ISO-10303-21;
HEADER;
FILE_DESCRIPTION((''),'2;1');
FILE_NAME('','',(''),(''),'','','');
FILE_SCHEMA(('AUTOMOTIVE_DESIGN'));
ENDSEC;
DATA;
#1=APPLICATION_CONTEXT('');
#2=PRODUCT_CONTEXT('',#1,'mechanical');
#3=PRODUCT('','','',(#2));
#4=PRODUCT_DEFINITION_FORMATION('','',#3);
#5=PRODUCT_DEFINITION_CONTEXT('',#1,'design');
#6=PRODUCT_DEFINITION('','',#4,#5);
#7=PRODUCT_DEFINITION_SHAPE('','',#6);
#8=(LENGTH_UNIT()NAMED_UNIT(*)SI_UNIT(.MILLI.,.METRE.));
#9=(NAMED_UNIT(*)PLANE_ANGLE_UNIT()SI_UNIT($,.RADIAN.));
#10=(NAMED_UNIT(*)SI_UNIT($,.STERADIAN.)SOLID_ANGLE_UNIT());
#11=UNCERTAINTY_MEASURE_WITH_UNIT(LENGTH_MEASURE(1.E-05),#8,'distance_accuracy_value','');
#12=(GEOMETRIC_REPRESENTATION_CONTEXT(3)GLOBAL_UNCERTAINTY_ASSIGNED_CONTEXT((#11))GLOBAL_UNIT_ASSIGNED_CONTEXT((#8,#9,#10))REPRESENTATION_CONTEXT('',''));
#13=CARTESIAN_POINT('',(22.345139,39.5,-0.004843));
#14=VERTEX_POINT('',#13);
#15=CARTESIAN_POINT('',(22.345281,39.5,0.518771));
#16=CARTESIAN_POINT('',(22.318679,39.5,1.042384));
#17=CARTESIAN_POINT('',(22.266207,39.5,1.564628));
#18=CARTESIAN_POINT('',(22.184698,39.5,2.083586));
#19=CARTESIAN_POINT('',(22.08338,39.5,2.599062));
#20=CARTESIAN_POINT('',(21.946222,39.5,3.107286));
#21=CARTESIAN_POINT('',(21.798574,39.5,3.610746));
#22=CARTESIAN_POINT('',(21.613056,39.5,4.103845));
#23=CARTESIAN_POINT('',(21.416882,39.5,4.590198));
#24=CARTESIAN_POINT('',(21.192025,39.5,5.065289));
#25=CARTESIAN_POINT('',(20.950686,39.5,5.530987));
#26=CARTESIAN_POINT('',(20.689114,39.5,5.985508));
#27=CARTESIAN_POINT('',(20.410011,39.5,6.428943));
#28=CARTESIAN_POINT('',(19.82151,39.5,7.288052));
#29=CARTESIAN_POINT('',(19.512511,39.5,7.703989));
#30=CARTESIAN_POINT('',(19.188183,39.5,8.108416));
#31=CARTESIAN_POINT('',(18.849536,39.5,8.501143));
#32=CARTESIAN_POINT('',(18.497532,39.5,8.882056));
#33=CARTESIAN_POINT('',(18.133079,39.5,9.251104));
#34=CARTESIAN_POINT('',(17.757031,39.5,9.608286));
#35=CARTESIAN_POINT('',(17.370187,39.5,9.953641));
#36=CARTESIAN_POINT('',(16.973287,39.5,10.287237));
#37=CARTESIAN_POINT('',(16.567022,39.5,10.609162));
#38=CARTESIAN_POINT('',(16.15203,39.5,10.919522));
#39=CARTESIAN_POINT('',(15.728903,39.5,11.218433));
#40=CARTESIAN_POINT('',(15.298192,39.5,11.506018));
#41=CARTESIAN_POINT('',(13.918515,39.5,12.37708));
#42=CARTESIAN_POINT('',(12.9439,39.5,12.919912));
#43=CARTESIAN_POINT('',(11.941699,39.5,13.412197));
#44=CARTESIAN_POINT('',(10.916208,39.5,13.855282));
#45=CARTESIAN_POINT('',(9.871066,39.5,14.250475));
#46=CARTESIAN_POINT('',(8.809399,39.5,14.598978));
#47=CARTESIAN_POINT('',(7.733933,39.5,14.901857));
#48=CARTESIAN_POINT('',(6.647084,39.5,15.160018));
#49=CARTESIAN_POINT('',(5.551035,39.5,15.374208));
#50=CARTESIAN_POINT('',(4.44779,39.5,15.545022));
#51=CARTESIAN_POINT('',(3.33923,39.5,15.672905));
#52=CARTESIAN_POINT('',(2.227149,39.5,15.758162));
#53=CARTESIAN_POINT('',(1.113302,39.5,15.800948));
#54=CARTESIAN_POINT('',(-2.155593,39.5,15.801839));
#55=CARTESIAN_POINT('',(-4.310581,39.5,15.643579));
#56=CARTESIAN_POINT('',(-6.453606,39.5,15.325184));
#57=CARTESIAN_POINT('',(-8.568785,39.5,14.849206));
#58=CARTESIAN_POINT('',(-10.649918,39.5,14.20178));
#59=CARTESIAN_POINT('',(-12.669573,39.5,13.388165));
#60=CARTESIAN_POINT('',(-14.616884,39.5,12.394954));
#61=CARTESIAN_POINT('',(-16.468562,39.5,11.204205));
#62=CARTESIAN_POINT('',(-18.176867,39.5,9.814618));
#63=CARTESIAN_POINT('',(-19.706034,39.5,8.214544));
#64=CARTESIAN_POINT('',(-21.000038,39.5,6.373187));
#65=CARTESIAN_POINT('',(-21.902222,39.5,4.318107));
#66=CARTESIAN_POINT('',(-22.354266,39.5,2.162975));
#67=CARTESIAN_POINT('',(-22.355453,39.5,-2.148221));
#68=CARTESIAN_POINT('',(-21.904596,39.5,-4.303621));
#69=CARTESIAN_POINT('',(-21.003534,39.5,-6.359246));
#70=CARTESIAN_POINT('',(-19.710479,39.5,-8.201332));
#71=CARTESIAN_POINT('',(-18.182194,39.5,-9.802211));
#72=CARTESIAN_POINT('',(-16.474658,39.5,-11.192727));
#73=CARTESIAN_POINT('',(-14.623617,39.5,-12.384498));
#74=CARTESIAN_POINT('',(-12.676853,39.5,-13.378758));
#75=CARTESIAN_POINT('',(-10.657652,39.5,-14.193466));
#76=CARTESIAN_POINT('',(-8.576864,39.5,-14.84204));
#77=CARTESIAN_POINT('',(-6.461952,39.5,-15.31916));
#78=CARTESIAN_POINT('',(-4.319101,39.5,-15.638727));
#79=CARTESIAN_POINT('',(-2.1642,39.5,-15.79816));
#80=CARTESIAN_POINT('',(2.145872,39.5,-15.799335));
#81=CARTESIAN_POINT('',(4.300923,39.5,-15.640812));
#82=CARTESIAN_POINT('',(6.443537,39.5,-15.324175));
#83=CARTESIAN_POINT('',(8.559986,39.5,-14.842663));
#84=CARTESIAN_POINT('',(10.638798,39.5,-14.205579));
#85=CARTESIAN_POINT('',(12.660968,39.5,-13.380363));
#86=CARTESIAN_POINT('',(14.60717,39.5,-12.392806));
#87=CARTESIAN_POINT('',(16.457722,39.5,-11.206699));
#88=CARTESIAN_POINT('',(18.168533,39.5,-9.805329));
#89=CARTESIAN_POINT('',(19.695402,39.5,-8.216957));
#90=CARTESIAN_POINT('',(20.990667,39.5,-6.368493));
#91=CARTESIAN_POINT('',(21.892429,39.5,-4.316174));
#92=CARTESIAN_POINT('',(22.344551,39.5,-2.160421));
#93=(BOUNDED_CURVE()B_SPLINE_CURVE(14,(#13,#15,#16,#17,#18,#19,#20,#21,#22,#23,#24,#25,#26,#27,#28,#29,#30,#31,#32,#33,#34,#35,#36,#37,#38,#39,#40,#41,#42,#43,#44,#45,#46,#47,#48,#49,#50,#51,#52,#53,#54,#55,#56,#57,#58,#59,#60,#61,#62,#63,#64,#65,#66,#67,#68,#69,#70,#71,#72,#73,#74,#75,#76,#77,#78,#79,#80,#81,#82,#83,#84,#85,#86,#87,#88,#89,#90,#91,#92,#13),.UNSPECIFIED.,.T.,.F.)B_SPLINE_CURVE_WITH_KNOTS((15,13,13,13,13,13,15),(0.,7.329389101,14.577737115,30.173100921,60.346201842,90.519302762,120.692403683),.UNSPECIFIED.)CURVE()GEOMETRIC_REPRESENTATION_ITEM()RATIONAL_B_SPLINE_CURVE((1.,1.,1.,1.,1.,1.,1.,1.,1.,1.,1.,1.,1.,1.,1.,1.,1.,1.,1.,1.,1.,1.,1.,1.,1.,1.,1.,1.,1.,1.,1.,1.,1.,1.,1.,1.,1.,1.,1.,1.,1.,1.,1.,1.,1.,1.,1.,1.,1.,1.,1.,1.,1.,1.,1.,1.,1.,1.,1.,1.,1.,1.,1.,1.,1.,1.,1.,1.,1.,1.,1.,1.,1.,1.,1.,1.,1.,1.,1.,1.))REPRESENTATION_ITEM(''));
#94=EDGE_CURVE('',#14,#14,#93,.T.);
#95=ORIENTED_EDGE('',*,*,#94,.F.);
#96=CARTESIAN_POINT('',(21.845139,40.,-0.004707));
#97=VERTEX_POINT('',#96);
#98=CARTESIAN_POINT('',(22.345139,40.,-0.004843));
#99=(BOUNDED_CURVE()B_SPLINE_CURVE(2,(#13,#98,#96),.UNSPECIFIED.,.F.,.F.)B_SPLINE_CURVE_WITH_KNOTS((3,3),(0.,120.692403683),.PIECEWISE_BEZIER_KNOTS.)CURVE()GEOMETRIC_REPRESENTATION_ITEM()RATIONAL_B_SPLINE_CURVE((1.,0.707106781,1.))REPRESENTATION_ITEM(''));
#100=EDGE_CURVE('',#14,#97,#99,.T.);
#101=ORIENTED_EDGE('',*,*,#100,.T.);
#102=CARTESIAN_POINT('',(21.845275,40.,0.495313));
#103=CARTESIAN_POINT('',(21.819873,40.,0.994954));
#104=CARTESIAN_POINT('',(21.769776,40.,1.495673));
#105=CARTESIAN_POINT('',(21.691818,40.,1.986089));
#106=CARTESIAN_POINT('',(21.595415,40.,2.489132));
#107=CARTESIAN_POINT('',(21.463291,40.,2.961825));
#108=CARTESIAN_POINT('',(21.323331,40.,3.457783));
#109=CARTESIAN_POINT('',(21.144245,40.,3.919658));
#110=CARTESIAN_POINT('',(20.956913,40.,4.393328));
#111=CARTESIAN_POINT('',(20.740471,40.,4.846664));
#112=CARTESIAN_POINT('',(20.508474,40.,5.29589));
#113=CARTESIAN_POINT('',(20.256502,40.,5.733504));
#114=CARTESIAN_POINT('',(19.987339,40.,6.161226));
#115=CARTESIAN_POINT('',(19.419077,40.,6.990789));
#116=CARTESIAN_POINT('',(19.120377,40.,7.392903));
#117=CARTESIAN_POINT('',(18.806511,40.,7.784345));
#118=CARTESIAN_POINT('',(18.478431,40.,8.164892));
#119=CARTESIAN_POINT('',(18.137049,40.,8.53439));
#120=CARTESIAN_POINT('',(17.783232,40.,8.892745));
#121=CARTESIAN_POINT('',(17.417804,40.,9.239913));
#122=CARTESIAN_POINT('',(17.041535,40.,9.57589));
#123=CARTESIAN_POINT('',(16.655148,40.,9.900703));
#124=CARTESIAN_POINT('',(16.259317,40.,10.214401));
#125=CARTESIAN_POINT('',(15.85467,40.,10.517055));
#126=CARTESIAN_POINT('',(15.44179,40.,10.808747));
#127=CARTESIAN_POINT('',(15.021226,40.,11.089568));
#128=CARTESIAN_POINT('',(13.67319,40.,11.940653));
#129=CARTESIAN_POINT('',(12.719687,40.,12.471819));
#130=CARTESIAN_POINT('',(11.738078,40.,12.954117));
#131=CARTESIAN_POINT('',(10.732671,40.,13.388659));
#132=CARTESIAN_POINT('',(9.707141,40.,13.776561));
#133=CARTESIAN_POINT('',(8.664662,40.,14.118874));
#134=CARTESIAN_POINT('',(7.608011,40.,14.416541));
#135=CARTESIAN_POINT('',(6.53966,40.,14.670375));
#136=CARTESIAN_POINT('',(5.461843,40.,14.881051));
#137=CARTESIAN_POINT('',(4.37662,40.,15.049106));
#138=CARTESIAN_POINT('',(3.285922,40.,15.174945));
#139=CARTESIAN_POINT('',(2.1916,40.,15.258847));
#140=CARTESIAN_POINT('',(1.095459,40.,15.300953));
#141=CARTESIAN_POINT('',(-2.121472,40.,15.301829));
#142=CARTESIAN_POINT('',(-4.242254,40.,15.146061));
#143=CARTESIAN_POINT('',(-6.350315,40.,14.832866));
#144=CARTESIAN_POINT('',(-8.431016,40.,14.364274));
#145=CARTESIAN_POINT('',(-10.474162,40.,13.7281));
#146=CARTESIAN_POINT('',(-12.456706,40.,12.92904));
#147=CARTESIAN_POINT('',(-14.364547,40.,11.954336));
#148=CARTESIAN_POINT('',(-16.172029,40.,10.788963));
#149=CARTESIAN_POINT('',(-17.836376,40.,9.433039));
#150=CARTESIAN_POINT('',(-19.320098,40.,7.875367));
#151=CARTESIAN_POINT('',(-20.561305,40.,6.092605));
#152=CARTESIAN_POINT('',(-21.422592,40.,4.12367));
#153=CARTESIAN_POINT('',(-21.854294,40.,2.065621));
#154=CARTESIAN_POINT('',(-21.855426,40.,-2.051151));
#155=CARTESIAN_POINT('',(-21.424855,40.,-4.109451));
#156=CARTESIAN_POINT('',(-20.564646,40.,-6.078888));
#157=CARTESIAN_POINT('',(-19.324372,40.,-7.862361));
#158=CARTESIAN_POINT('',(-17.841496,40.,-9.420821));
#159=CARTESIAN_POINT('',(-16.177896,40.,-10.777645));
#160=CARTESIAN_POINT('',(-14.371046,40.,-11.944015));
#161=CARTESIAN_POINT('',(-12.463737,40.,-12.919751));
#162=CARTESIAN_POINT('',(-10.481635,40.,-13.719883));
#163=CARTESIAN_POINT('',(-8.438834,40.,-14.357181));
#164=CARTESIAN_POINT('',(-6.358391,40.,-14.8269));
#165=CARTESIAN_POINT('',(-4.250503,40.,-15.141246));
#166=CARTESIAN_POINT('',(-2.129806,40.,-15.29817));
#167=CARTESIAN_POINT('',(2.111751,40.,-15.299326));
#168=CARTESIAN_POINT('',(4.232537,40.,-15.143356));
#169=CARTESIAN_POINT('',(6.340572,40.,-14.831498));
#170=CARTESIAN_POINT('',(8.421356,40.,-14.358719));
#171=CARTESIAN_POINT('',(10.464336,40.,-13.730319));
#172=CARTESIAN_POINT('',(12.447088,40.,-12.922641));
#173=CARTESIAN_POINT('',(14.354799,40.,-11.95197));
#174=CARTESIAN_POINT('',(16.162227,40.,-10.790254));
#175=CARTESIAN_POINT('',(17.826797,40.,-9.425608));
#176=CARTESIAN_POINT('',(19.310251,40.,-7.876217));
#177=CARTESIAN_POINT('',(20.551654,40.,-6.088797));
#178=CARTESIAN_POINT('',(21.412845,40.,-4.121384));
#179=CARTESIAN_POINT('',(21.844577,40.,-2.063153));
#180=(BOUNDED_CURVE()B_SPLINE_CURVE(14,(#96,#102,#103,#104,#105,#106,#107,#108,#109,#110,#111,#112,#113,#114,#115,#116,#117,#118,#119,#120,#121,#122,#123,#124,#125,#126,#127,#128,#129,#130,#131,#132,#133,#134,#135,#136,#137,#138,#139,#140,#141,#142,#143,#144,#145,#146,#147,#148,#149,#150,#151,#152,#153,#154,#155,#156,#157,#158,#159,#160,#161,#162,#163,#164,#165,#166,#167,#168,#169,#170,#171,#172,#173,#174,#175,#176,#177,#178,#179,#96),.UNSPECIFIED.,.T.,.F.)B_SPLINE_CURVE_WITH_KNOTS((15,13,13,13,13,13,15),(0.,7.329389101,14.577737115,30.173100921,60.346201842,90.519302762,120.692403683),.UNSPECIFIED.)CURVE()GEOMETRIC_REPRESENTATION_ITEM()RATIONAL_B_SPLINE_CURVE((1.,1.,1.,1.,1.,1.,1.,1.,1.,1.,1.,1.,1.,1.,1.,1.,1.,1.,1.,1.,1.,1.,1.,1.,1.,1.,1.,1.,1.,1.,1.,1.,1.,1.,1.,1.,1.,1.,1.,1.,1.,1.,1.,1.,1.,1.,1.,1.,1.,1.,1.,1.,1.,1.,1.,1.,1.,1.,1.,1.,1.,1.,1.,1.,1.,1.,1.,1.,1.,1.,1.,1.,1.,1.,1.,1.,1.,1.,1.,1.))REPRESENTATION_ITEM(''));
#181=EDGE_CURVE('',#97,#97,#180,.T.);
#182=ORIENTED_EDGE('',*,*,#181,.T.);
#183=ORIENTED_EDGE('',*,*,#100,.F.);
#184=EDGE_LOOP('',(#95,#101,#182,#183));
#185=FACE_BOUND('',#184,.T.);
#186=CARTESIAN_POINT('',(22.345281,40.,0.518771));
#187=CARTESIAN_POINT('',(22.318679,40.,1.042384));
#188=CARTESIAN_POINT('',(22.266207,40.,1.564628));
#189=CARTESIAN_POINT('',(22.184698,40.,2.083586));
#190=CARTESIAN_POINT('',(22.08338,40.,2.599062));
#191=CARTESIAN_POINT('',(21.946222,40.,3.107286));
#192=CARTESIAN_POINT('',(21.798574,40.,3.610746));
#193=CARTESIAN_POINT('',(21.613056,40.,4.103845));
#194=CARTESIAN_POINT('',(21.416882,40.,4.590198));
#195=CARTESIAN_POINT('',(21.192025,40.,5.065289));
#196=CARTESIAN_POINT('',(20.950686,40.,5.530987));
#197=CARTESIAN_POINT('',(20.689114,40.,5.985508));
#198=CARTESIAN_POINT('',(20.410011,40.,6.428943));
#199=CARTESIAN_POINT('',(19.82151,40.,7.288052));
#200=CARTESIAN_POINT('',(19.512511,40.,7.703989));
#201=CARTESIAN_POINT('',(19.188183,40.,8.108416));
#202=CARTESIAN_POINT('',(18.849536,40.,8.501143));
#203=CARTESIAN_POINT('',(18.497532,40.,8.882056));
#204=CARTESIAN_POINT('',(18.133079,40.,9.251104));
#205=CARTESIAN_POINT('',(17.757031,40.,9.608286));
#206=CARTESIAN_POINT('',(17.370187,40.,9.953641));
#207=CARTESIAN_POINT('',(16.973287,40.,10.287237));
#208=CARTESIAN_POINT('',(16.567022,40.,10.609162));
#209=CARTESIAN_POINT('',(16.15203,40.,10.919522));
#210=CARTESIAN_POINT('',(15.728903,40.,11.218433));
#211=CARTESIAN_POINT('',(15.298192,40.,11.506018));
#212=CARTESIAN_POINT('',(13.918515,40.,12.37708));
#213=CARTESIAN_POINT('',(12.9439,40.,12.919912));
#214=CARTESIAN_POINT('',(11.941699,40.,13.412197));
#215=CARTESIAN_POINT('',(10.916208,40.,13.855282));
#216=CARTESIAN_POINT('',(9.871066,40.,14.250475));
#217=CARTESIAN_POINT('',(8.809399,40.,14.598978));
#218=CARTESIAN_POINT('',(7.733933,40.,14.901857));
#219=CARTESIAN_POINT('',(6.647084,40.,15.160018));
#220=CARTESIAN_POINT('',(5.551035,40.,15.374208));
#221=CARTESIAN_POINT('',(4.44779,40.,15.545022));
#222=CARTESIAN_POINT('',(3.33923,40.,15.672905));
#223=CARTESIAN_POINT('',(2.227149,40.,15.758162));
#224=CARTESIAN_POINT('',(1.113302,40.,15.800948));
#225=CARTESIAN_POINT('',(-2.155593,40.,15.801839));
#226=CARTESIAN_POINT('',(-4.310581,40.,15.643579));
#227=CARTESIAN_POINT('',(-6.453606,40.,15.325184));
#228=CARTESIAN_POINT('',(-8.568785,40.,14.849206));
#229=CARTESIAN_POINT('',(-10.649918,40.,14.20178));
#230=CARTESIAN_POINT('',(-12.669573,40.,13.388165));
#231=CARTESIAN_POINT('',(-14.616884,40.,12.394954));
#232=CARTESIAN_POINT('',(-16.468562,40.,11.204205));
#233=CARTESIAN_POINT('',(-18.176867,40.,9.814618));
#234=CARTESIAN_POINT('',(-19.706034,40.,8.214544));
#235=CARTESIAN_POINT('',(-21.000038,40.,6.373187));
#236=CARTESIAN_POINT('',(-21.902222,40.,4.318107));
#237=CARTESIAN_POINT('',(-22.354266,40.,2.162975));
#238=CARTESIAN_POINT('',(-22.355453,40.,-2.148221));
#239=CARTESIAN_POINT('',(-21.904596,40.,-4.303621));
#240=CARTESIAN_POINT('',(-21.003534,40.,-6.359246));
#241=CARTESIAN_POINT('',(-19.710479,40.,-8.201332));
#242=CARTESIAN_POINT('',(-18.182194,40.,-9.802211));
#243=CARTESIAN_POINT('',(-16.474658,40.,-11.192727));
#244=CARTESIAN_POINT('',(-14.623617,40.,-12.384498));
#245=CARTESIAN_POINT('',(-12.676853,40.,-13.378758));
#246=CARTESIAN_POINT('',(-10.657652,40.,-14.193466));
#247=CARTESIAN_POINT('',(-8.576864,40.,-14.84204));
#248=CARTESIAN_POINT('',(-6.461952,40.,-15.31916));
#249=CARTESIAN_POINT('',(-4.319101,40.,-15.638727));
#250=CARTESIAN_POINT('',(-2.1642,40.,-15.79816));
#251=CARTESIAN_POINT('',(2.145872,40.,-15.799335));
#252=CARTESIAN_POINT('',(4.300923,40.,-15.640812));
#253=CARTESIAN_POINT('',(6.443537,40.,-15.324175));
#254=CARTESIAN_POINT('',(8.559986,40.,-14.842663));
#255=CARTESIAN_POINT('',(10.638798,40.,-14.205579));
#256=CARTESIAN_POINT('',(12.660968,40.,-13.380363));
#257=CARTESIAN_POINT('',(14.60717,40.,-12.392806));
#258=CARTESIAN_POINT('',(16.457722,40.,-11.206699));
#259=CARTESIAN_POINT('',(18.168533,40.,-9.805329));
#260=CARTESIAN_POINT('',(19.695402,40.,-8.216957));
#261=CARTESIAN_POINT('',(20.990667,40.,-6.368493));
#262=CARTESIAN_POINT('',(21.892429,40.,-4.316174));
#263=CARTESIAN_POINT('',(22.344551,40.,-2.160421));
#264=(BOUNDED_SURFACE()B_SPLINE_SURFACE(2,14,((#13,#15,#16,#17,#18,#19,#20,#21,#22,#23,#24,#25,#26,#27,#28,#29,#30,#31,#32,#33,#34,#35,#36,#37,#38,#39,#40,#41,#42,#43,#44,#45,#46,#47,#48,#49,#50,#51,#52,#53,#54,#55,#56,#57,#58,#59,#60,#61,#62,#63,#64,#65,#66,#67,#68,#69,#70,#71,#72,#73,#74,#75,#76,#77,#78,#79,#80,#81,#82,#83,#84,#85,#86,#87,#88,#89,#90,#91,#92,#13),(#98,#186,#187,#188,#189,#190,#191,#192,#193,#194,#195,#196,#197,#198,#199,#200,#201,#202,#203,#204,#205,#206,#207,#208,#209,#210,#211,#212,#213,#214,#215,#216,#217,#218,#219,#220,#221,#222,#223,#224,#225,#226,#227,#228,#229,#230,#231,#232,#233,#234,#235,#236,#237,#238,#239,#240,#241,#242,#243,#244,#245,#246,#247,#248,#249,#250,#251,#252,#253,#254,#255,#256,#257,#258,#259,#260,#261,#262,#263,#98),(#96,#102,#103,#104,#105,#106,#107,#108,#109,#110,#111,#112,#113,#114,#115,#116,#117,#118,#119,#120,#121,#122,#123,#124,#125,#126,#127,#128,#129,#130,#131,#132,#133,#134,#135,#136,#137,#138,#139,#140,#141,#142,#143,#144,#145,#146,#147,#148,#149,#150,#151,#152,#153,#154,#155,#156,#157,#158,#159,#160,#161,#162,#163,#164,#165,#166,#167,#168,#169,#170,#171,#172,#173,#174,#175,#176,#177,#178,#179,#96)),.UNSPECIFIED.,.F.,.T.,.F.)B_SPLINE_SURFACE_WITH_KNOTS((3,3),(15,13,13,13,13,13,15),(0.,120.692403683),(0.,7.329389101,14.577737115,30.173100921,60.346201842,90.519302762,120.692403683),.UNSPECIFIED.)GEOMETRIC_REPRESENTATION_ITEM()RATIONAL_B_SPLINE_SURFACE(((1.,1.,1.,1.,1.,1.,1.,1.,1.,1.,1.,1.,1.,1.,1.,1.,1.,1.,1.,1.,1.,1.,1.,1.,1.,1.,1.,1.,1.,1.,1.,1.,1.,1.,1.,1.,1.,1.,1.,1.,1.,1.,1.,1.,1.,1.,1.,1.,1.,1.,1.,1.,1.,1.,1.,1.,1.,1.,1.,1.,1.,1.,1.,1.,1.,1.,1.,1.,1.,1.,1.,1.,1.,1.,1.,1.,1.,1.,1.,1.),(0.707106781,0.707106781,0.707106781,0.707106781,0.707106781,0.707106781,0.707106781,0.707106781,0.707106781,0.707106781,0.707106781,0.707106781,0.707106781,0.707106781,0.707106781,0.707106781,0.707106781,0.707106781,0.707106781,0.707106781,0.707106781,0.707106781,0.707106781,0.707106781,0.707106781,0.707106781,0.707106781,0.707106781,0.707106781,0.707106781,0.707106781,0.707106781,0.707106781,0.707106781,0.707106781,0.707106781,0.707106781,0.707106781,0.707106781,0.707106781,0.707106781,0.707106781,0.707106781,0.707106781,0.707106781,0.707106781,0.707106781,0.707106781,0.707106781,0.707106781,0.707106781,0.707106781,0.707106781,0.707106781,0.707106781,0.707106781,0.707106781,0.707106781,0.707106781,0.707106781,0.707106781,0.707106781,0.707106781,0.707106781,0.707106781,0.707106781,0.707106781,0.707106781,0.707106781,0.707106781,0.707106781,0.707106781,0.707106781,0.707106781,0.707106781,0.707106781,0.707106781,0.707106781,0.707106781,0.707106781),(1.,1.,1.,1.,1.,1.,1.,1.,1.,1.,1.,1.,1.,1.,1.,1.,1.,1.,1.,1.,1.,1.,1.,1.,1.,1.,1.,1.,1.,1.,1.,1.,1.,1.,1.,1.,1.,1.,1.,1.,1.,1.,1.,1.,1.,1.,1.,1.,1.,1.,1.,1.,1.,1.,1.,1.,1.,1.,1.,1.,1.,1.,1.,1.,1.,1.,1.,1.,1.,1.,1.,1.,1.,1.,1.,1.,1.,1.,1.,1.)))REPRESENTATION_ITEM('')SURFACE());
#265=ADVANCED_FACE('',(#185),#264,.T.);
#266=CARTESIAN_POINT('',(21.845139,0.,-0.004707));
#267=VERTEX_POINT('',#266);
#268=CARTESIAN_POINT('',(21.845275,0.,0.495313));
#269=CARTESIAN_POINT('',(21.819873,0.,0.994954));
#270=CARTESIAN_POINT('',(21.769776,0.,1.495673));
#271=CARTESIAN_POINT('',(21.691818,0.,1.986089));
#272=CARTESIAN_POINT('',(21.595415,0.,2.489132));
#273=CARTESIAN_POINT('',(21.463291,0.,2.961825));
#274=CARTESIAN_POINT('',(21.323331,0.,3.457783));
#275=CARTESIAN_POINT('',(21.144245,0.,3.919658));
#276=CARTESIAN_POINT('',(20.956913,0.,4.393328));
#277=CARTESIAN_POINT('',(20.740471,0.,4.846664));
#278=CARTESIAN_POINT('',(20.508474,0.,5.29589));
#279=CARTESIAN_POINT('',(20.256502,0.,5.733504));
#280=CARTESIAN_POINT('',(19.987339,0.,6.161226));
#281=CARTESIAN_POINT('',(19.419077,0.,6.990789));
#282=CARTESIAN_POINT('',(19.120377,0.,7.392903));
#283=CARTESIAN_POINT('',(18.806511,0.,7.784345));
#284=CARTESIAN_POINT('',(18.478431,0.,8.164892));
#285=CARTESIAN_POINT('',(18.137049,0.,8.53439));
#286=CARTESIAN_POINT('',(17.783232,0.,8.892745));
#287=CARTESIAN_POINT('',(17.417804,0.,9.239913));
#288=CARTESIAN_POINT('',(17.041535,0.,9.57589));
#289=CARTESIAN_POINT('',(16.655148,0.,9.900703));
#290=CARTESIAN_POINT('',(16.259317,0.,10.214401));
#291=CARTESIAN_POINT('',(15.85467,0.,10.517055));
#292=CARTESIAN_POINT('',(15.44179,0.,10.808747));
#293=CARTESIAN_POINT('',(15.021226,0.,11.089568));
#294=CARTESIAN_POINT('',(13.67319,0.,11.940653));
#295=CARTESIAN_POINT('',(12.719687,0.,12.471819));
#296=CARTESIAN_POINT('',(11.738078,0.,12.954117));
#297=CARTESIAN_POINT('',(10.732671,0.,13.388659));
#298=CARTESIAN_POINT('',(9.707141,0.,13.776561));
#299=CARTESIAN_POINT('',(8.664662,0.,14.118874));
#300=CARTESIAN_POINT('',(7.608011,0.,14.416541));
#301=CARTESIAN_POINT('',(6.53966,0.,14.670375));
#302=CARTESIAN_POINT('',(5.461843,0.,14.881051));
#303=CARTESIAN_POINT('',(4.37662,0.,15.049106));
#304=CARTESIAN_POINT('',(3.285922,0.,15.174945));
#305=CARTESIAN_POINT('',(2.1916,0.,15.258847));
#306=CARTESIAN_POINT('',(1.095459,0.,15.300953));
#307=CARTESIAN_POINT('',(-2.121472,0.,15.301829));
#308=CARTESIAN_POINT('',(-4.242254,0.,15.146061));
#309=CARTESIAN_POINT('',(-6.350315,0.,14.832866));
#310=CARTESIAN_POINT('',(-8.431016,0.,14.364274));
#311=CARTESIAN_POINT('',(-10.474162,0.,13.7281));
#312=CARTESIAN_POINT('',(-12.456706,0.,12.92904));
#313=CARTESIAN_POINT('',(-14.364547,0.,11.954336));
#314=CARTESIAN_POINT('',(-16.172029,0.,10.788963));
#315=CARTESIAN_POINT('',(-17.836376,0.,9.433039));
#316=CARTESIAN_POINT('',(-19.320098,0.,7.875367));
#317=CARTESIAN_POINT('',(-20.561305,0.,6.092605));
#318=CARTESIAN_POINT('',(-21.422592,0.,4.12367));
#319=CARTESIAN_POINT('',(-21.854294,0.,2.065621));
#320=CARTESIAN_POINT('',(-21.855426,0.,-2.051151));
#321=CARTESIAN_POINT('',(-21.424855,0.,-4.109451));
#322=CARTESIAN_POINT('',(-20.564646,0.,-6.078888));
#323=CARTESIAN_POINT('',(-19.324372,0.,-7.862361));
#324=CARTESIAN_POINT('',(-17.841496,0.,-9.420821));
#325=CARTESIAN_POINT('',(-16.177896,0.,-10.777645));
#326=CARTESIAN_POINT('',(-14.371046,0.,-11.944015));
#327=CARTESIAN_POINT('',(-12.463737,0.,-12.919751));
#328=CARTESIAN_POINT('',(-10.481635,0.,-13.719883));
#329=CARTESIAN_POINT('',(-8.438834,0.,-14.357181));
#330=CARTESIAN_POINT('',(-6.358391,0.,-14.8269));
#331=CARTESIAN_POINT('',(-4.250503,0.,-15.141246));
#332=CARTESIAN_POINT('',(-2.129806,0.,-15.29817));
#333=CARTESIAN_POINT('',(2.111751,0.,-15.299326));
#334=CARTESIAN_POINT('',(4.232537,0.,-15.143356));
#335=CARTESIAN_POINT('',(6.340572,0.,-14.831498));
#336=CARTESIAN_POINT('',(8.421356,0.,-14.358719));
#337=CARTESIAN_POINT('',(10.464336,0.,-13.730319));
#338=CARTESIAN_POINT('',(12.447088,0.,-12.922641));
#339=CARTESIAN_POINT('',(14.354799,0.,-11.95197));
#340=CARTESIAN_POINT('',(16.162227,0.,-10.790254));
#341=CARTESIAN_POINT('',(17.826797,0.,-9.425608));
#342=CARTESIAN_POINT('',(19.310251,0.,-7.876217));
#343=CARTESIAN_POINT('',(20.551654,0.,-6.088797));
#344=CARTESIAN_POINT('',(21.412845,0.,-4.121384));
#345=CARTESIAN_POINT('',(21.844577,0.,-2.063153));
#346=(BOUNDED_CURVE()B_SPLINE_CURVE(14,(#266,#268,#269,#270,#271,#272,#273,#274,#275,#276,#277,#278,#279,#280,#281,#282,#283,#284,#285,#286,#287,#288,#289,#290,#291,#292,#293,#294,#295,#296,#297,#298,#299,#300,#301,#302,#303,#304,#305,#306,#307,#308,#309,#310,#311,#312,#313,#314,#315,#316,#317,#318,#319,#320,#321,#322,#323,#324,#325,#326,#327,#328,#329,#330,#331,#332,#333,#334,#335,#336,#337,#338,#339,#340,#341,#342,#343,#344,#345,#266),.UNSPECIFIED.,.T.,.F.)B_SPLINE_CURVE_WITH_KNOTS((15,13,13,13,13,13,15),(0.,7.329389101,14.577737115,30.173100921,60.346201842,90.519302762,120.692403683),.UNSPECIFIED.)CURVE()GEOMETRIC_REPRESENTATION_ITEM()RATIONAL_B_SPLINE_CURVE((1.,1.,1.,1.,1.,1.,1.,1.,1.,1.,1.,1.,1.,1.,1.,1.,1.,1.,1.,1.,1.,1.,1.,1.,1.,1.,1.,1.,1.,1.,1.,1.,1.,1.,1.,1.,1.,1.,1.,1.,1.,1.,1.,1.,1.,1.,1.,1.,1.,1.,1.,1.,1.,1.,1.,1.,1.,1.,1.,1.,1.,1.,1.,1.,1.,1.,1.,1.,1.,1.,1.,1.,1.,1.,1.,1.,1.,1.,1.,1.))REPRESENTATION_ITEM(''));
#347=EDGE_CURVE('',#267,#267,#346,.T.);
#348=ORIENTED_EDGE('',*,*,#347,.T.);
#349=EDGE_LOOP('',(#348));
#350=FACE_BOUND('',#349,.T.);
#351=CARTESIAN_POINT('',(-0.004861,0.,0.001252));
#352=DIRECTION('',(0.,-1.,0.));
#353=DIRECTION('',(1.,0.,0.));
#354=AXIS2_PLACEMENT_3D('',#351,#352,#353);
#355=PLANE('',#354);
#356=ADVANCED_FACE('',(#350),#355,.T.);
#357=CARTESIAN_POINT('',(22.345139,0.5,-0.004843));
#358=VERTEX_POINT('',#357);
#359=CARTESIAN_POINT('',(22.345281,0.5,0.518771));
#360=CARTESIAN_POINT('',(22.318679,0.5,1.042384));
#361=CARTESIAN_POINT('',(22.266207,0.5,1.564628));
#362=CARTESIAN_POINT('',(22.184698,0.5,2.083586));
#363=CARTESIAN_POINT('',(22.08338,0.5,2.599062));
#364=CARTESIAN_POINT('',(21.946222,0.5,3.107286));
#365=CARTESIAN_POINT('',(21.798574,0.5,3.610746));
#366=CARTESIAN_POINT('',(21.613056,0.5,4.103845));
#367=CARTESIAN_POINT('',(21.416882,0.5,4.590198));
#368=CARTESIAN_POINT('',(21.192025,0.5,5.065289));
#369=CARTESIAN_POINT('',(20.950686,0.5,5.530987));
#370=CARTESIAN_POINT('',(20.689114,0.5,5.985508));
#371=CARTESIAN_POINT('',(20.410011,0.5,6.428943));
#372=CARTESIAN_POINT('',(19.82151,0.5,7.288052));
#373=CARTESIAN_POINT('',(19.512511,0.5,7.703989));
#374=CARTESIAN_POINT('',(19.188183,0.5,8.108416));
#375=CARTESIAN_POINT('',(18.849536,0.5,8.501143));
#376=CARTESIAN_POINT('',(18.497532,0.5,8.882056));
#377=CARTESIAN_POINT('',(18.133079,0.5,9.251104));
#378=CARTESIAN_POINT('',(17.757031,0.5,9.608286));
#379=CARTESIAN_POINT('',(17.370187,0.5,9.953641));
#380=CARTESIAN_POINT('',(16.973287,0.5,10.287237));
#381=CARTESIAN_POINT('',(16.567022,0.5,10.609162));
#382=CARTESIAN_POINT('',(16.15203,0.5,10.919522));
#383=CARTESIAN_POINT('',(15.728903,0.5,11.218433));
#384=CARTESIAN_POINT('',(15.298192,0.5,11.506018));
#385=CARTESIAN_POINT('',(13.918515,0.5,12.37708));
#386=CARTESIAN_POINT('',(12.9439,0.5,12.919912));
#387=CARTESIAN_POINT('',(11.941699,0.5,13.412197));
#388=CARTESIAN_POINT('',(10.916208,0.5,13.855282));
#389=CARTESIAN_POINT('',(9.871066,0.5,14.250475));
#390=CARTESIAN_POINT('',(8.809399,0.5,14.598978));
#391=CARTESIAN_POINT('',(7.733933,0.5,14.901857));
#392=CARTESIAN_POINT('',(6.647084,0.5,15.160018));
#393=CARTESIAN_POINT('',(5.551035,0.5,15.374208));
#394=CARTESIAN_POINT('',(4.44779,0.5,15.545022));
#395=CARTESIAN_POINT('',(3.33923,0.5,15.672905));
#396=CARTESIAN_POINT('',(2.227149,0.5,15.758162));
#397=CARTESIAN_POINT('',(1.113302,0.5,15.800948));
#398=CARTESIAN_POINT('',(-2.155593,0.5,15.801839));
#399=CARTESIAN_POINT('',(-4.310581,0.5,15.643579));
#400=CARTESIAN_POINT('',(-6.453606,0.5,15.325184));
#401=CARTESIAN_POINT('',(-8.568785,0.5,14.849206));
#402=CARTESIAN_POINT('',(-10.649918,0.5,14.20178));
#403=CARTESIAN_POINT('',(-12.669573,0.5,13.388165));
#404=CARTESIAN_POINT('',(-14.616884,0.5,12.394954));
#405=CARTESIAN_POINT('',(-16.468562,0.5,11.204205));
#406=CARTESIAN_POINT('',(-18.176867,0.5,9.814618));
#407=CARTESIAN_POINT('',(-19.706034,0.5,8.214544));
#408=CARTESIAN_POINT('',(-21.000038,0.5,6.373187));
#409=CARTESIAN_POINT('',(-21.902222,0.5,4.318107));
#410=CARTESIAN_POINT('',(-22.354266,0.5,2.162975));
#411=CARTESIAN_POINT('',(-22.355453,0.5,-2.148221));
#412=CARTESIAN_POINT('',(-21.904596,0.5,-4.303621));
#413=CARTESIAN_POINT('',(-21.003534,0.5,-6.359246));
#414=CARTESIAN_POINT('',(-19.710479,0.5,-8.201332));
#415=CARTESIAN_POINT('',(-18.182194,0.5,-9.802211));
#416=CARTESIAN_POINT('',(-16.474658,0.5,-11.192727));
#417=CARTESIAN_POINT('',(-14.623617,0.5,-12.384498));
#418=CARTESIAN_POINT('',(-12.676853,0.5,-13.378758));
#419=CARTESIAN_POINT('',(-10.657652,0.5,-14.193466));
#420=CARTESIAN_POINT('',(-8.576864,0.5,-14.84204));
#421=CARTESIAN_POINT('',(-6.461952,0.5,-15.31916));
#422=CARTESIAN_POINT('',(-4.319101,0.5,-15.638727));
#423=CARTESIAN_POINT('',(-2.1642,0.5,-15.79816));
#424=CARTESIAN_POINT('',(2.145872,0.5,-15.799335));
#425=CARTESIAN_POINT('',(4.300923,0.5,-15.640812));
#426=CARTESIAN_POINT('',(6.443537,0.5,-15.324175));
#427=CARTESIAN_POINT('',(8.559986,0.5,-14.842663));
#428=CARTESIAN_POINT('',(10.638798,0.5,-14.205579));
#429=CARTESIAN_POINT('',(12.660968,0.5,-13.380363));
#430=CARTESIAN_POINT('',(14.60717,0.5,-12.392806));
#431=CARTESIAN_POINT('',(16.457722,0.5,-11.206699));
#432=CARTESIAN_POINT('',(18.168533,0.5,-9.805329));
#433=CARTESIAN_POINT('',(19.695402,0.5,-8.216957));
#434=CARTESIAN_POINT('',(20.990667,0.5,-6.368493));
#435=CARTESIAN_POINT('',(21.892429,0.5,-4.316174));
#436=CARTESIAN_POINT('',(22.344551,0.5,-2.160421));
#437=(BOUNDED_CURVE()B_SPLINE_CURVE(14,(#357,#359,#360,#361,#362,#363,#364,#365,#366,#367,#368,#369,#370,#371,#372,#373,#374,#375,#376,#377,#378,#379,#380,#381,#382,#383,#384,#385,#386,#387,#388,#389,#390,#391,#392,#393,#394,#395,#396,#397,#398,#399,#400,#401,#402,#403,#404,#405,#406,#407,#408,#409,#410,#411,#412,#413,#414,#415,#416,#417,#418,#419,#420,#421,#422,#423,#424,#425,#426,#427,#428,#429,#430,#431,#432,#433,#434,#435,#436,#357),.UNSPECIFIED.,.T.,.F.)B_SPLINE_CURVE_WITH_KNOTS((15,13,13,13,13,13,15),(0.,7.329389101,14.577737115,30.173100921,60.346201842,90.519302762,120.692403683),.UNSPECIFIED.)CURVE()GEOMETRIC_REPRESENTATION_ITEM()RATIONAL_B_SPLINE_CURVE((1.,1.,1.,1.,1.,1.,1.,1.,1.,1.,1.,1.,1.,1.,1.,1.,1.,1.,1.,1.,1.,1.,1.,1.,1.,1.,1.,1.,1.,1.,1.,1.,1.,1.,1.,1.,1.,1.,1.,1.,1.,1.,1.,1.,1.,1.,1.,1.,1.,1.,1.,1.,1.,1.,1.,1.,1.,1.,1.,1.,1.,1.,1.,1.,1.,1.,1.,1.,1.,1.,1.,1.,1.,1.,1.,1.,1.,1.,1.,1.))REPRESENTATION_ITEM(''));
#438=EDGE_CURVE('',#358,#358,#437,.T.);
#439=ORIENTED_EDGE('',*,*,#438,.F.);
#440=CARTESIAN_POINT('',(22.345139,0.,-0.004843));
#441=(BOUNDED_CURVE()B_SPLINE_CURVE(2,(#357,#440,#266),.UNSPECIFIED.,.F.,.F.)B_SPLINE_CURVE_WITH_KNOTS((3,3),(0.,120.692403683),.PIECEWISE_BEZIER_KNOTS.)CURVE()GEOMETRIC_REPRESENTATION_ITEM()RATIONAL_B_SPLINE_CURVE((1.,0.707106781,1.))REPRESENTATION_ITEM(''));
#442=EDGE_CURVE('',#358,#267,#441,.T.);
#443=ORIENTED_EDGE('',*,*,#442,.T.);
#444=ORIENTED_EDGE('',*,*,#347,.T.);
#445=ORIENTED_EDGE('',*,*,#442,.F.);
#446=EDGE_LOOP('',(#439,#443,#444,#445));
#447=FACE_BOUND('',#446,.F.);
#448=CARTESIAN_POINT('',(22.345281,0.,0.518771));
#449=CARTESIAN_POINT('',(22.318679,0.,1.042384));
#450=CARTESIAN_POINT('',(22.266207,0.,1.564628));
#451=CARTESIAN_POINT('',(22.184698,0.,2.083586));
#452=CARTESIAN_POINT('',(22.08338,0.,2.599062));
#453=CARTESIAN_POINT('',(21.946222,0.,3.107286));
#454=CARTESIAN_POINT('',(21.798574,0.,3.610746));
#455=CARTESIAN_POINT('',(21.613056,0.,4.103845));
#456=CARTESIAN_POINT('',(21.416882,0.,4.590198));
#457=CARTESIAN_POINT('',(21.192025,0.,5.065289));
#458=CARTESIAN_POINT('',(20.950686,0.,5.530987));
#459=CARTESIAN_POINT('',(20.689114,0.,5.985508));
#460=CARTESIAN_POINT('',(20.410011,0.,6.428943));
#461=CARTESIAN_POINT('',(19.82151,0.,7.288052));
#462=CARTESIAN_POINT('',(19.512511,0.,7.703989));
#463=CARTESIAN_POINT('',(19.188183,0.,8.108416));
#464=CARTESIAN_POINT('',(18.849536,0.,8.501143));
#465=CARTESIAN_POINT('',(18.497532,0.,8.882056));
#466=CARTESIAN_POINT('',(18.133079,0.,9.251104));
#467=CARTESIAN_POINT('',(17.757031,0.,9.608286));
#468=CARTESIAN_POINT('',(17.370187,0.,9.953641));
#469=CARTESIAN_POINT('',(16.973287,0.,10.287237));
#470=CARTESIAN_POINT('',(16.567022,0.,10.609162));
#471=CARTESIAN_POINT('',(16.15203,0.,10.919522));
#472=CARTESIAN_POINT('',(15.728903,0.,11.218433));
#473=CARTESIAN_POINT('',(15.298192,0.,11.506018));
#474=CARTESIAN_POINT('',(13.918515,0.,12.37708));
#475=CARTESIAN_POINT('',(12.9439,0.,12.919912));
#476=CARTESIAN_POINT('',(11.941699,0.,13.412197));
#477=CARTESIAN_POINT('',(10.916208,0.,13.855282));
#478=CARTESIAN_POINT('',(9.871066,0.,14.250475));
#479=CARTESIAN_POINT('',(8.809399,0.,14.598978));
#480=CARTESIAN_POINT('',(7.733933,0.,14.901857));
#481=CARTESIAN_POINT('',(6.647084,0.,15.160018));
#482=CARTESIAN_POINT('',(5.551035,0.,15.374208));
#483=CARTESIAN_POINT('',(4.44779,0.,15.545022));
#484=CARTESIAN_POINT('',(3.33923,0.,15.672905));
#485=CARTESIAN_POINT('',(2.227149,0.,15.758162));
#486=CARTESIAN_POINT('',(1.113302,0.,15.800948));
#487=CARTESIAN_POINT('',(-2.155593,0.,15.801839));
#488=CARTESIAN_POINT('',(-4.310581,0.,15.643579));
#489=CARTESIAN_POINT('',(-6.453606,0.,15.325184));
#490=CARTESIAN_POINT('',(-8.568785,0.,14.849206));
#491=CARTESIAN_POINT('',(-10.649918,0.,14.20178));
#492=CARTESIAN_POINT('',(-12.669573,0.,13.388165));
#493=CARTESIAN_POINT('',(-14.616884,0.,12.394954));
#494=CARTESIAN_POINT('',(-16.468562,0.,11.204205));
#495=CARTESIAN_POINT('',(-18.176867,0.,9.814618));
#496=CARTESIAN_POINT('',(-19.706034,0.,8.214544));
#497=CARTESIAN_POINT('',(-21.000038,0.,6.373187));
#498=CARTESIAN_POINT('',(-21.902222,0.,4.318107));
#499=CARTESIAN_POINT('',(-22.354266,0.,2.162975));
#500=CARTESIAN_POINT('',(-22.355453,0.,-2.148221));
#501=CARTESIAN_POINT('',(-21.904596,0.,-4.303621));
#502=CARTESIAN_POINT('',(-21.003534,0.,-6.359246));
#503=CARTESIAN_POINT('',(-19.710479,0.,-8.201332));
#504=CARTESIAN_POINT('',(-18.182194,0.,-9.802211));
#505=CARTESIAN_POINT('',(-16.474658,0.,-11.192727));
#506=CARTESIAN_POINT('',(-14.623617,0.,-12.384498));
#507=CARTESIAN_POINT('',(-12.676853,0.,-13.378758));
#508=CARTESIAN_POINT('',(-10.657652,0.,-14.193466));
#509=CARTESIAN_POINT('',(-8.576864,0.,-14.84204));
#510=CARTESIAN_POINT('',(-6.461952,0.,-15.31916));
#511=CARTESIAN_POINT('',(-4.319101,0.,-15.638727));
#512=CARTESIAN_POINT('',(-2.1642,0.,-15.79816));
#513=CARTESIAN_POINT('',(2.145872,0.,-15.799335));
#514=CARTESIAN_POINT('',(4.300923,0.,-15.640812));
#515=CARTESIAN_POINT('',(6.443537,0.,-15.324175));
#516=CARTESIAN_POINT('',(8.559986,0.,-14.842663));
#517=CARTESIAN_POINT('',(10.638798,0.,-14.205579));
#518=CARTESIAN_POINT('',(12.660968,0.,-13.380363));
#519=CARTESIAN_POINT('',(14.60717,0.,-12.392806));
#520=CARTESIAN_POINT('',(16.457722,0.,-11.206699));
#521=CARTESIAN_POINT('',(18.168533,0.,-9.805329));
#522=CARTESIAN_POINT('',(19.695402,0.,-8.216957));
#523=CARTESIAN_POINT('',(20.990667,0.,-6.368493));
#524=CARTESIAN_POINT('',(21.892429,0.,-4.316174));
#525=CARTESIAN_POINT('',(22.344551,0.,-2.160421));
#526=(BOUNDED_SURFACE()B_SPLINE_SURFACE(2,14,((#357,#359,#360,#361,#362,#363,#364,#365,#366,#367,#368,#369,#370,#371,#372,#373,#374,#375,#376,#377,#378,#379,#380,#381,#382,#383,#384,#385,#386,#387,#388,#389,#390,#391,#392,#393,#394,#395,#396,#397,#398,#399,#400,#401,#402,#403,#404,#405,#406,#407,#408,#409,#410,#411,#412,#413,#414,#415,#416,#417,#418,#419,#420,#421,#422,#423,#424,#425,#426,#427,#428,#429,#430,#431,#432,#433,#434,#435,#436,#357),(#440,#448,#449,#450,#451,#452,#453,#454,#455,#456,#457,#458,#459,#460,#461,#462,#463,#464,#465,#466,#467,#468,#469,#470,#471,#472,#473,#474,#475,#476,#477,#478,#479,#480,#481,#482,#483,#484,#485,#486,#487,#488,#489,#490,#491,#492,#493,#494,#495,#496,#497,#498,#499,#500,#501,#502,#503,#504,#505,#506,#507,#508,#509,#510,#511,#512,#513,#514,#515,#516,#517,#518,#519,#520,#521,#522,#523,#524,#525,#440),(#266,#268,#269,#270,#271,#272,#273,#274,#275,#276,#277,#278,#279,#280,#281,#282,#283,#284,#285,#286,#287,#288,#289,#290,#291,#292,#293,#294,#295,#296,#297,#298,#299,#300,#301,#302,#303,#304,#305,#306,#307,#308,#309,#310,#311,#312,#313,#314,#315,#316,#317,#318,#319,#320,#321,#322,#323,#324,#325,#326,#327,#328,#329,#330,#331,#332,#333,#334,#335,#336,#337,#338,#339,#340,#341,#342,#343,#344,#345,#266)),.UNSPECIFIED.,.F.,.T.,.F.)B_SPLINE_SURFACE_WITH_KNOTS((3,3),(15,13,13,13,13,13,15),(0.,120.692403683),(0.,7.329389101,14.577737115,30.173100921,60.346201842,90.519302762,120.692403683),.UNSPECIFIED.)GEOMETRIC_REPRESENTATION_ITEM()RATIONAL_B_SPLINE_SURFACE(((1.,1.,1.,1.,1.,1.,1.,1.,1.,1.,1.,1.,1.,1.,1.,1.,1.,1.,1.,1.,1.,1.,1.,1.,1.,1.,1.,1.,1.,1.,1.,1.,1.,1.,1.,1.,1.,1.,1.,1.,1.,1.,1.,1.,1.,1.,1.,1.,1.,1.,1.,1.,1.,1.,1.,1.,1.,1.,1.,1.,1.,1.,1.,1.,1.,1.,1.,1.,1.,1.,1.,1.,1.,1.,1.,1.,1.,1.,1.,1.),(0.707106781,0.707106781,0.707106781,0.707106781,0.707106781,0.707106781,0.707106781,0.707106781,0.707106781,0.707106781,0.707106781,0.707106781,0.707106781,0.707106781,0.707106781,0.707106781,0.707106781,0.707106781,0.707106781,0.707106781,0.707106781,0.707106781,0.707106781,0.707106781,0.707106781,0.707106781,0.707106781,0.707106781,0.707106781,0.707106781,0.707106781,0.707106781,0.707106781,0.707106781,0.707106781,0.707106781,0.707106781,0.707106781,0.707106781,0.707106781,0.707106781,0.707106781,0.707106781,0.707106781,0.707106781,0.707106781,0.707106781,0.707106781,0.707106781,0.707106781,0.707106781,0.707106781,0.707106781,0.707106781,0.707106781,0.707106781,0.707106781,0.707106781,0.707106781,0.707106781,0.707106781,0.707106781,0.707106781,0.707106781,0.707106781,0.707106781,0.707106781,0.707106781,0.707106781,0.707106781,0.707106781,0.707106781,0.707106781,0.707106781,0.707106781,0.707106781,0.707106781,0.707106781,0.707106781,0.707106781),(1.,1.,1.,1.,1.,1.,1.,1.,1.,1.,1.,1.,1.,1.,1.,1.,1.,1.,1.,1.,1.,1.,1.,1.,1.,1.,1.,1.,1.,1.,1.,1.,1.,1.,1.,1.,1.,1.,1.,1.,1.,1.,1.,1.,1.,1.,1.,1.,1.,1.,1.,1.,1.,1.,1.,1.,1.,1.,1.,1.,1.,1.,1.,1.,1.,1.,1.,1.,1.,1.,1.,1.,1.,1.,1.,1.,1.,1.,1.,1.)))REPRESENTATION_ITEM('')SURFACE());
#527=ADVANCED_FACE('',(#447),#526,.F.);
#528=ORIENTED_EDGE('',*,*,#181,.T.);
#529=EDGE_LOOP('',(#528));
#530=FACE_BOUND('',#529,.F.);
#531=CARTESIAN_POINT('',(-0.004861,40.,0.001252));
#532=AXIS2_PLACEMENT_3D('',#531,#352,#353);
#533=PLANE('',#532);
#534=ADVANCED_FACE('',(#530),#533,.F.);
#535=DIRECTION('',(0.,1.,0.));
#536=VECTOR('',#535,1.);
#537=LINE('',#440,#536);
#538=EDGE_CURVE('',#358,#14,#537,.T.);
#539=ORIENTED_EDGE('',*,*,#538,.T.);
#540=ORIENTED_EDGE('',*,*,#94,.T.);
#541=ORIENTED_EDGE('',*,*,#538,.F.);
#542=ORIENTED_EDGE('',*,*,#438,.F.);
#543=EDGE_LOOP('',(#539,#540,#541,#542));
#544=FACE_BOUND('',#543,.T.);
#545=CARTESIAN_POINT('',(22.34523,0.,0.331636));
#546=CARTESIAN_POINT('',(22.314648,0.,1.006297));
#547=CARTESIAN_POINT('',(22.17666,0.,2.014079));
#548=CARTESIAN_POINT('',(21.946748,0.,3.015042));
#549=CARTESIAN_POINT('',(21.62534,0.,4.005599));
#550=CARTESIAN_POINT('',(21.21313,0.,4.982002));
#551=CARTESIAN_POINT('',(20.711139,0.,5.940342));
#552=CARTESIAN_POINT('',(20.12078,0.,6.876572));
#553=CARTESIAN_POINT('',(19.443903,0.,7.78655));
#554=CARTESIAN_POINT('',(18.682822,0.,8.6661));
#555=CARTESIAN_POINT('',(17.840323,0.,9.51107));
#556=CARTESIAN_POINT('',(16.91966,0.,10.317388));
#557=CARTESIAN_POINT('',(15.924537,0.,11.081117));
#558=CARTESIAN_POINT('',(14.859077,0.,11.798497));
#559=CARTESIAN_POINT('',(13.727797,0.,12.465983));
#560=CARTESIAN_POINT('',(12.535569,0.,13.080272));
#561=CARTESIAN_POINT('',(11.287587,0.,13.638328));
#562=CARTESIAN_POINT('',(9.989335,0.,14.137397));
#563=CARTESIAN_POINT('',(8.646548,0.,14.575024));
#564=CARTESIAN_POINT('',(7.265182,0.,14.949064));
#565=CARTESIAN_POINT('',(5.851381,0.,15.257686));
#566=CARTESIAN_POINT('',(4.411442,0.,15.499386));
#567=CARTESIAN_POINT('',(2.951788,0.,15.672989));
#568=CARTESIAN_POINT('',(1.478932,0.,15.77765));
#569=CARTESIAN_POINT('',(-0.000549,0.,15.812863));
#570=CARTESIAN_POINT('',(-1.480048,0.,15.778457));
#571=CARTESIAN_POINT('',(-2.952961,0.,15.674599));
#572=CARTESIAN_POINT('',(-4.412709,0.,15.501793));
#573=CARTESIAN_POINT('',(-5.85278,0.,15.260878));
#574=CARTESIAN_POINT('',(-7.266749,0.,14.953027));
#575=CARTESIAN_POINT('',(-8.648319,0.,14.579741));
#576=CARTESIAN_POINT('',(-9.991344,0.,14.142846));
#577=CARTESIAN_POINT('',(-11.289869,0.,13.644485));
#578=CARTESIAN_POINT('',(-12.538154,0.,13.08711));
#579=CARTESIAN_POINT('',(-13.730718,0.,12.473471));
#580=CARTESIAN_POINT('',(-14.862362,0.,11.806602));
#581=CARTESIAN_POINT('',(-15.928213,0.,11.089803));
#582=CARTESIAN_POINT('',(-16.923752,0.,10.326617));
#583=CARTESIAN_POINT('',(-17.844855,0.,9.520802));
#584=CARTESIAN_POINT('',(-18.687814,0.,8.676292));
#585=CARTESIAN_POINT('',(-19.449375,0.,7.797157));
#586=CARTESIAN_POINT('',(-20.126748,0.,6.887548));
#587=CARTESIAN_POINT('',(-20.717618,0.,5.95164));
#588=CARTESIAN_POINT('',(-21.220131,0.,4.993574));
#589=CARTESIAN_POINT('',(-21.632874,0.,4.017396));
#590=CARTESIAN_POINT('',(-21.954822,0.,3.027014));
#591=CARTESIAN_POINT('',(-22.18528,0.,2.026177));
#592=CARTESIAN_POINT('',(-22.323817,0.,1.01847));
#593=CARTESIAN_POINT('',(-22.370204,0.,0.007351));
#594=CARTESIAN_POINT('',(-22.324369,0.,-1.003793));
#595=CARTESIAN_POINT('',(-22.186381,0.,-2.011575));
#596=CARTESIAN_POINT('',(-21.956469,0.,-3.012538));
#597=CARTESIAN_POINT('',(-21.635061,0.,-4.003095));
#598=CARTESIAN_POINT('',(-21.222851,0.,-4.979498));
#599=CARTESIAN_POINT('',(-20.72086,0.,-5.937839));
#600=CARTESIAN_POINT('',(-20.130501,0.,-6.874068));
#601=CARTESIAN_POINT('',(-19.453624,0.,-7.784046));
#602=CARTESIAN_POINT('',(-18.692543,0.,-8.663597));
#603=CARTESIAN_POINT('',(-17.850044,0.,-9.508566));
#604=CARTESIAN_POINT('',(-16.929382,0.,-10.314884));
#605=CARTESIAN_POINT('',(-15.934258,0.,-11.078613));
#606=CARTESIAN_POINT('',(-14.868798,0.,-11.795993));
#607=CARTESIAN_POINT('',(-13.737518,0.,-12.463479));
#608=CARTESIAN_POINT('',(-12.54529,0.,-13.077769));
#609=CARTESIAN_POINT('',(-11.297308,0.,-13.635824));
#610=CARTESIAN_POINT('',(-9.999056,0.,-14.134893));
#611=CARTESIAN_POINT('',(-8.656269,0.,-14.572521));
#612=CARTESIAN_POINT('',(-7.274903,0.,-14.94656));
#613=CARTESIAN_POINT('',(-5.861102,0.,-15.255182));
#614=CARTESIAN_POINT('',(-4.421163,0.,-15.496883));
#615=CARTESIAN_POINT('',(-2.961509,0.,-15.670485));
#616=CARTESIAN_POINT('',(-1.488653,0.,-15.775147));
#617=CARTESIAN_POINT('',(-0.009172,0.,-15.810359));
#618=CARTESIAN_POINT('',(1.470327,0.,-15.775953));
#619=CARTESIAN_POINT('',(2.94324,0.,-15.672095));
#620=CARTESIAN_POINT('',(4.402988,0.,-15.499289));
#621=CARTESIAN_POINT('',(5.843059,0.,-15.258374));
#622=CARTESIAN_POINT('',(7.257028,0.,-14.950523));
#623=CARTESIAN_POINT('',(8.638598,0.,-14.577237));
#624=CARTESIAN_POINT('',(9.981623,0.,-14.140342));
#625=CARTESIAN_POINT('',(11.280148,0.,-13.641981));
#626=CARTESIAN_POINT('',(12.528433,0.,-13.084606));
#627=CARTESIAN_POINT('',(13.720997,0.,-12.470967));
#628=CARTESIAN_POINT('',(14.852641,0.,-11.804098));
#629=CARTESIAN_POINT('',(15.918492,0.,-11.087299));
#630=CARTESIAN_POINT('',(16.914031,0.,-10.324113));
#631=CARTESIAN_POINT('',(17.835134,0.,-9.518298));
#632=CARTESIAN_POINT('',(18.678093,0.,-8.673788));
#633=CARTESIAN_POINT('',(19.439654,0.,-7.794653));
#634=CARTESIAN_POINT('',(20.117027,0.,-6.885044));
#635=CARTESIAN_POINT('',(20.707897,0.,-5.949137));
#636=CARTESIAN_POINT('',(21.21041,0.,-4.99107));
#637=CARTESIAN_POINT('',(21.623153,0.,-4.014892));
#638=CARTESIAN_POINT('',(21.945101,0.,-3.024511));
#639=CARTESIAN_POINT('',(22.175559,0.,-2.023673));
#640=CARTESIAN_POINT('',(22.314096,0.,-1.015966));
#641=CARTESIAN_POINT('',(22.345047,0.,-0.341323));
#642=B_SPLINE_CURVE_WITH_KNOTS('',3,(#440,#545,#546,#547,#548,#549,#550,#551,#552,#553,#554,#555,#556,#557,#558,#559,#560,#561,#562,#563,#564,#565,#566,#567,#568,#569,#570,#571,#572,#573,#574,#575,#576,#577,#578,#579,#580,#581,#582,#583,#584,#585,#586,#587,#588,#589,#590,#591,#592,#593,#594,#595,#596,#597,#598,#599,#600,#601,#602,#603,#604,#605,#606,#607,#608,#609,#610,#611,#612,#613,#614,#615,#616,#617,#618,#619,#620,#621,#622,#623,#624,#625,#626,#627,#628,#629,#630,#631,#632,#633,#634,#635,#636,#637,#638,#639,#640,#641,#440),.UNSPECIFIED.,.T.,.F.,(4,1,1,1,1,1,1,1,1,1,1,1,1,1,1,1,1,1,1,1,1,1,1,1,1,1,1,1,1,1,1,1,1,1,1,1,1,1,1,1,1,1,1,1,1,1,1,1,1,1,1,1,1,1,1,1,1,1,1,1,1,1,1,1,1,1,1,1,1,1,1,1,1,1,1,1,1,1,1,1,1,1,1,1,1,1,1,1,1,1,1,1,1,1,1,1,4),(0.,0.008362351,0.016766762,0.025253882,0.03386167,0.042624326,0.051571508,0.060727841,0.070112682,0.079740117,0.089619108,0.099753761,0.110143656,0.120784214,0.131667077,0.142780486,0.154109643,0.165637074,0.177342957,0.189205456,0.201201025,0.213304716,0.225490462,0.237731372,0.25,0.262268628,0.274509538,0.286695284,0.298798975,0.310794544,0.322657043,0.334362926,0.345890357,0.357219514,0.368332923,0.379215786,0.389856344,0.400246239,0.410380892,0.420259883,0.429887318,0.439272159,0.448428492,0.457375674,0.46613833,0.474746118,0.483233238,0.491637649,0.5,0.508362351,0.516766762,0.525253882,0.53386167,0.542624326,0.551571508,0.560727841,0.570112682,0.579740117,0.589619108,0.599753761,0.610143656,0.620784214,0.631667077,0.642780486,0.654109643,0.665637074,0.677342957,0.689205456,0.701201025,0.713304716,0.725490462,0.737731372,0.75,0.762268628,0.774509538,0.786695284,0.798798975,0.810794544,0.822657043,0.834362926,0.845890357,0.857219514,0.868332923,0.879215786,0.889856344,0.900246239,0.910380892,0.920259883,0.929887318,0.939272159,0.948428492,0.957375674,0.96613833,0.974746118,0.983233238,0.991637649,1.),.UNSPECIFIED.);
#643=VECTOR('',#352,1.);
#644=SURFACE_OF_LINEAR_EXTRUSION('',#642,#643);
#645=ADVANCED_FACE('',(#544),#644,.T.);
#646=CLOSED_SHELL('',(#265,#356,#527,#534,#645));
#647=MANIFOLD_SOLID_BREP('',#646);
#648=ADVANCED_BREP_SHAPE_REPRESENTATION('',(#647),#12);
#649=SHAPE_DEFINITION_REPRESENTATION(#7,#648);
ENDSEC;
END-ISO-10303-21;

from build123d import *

# Parameters (mm, degrees)
BOSS_EXTRUDE1_DEPTH = 40
FILLET1_R           = 0.5


with BuildPart() as part:
    # Sketch1 → Boss-Extrude1 (new body)
    with BuildSketch(Plane(origin=(0, 0, 0), x_dir=(-1, 0, 0), z_dir=(0, 1, 0))):
        with BuildLine():
            add(Edge.make_bspline(
                [(-22.345138644, -0.004843186), (-22.345230404, 0.331636477), (-22.314647837, 1.006296553), (-22.176659983, 2.014079109), (-21.946747683, 3.01504213), (-21.625340233, 4.005598838), (-21.213129904, 4.98200215), (-20.711138961, 5.940342352), (-20.120780291, 6.876571849), (-19.443903395, 7.786550139), (-18.682821941, 8.666100438), (-17.840322981, 9.511069953), (-16.919660495, 10.317387749), (-15.924537053, 11.08111655), (-14.859077382, 11.798496812), (-13.727797052, 12.465982925), (-12.535568661, 13.080272233), (-11.287587102, 13.638327943), (-9.989334874, 14.137397073), (-8.646547914, 14.57502448), (-7.26518214, 14.949063822), (-5.851380715, 15.257686113), (-4.411441952, 15.499386378), (-2.951787729, 15.672988738), (-1.478932307, 15.777650181), (0.000548577, 15.812863158), (1.480048447, 15.778457118), (2.952960733, 15.674599008), (4.412709425, 15.501792792), (5.852779801, 15.260877928), (7.266749343, 14.953026792), (8.648318918, 14.579740923), (9.991344367, 14.142845958), (11.289868602, 13.644484989), (12.538154348, 13.087110031), (13.730717604, 12.473471074), (14.862361823, 11.806602077), (15.928212606, 11.089803041), (16.923752449, 10.326617109), (17.844854576, 9.520801576), (18.687814271, 8.676291699), (19.449375331, 7.797156635), (20.126748442, 6.88754766), (20.717617659, 5.951640293), (21.220131221, 4.993574027), (21.632874033, 4.017395687), (21.954821701, 3.027014426), (22.185279907, 2.026176952), (22.323817401, 1.018469806), (22.37020438, 0.007351033), (22.324368888, -1.00379289), (22.186381033, -2.011575446), (21.956468734, -3.012538467), (21.635061283, -4.003095176), (21.222850955, -4.979498487), (20.720860012, -5.937838689), (20.130501341, -6.874068186), (19.453624445, -7.784046476), (18.692542992, -8.663596776), (17.850044032, -9.50856629), (16.929381546, -10.314884087), (15.934258104, -11.078612888), (14.868798432, -11.795993149), (13.737518103, -12.463479263), (12.545289712, -13.077768571), (11.297308153, -13.63582428), (9.999055925, -14.13489341), (8.656268964, -14.572520817), (7.27490319, -14.946560159), (5.861101766, -15.255182451), (4.421163002, -15.496882715), (2.961508779, -15.670485075), (1.488653358, -15.775146518), (0.009172473, -15.810359496), (-1.470327396, -15.775953455), (-2.943239683, -15.672095346), (-4.402988374, -15.499289129), (-5.843058751, -15.258374265), (-7.257028292, -14.950523129), (-8.638597868, -14.577237261), (-9.981623317, -14.140342295), (-11.280147552, -13.641981326), (-12.528433297, -13.084606368), (-13.720996554, -12.470967411), (-14.852640772, -11.804098415), (-15.918491555, -11.087299378), (-16.914031399, -10.324113446), (-17.835133526, -9.518297913), (-18.67809322, -8.673788036), (-19.43965428, -7.794652973), (-20.117027392, -6.885043998), (-20.707896609, -5.94913663), (-21.21041017, -4.991070364), (-21.623152983, -4.014892024), (-21.945100651, -3.024510763), (-22.175558856, -2.023673289), (-22.314096351, -1.015966144), (-22.345046883, -0.341322848), (-22.345138644, -0.004843186)],
                knots=[0, 0, 0, 0, 0.008362351, 0.016766762, 0.025253882, 0.03386167, 0.042624326, 0.051571508, 0.060727841, 0.070112682, 0.079740117, 0.089619108, 0.099753761, 0.110143656, 0.120784214, 0.131667077, 0.142780486, 0.154109643, 0.165637074, 0.177342957, 0.189205456, 0.201201025, 0.213304716, 0.225490462, 0.237731372, 0.25, 0.262268628, 0.274509538, 0.286695284, 0.298798975, 0.310794544, 0.322657043, 0.334362926, 0.345890357, 0.357219514, 0.368332923, 0.379215786, 0.389856344, 0.400246239, 0.410380892, 0.420259883, 0.429887318, 0.439272159, 0.448428492, 0.457375674, 0.46613833, 0.474746118, 0.483233238, 0.491637649, 0.5, 0.508362351, 0.516766762, 0.525253882, 0.53386167, 0.542624326, 0.551571508, 0.560727841, 0.570112682, 0.579740117, 0.589619108, 0.599753761, 0.610143656, 0.620784214, 0.631667077, 0.642780486, 0.654109643, 0.665637074, 0.677342957, 0.689205456, 0.701201025, 0.713304716, 0.725490462, 0.737731372, 0.75, 0.762268628, 0.774509538, 0.786695284, 0.798798975, 0.810794544, 0.822657043, 0.834362926, 0.845890357, 0.857219514, 0.868332923, 0.879215786, 0.889856344, 0.900246239, 0.910380892, 0.920259883, 0.929887318, 0.939272159, 0.948428492, 0.957375674, 0.96613833, 0.974746118, 0.983233238, 0.991637649, 1, 1, 1, 1], degree=3))
        make_face()
    extrude(amount=BOSS_EXTRUDE1_DEPTH)

    # Fillet1
    fillet1_edges = [part.edges().sort_by_distance(p)[0] for p in [
        (-22.354859694, 0, 0.007346848),
        (-22.354859694, 40, 0.007346848),
    ]]
    fillet(fillet1_edges, radius=FILLET1_R)


solid = part.part
